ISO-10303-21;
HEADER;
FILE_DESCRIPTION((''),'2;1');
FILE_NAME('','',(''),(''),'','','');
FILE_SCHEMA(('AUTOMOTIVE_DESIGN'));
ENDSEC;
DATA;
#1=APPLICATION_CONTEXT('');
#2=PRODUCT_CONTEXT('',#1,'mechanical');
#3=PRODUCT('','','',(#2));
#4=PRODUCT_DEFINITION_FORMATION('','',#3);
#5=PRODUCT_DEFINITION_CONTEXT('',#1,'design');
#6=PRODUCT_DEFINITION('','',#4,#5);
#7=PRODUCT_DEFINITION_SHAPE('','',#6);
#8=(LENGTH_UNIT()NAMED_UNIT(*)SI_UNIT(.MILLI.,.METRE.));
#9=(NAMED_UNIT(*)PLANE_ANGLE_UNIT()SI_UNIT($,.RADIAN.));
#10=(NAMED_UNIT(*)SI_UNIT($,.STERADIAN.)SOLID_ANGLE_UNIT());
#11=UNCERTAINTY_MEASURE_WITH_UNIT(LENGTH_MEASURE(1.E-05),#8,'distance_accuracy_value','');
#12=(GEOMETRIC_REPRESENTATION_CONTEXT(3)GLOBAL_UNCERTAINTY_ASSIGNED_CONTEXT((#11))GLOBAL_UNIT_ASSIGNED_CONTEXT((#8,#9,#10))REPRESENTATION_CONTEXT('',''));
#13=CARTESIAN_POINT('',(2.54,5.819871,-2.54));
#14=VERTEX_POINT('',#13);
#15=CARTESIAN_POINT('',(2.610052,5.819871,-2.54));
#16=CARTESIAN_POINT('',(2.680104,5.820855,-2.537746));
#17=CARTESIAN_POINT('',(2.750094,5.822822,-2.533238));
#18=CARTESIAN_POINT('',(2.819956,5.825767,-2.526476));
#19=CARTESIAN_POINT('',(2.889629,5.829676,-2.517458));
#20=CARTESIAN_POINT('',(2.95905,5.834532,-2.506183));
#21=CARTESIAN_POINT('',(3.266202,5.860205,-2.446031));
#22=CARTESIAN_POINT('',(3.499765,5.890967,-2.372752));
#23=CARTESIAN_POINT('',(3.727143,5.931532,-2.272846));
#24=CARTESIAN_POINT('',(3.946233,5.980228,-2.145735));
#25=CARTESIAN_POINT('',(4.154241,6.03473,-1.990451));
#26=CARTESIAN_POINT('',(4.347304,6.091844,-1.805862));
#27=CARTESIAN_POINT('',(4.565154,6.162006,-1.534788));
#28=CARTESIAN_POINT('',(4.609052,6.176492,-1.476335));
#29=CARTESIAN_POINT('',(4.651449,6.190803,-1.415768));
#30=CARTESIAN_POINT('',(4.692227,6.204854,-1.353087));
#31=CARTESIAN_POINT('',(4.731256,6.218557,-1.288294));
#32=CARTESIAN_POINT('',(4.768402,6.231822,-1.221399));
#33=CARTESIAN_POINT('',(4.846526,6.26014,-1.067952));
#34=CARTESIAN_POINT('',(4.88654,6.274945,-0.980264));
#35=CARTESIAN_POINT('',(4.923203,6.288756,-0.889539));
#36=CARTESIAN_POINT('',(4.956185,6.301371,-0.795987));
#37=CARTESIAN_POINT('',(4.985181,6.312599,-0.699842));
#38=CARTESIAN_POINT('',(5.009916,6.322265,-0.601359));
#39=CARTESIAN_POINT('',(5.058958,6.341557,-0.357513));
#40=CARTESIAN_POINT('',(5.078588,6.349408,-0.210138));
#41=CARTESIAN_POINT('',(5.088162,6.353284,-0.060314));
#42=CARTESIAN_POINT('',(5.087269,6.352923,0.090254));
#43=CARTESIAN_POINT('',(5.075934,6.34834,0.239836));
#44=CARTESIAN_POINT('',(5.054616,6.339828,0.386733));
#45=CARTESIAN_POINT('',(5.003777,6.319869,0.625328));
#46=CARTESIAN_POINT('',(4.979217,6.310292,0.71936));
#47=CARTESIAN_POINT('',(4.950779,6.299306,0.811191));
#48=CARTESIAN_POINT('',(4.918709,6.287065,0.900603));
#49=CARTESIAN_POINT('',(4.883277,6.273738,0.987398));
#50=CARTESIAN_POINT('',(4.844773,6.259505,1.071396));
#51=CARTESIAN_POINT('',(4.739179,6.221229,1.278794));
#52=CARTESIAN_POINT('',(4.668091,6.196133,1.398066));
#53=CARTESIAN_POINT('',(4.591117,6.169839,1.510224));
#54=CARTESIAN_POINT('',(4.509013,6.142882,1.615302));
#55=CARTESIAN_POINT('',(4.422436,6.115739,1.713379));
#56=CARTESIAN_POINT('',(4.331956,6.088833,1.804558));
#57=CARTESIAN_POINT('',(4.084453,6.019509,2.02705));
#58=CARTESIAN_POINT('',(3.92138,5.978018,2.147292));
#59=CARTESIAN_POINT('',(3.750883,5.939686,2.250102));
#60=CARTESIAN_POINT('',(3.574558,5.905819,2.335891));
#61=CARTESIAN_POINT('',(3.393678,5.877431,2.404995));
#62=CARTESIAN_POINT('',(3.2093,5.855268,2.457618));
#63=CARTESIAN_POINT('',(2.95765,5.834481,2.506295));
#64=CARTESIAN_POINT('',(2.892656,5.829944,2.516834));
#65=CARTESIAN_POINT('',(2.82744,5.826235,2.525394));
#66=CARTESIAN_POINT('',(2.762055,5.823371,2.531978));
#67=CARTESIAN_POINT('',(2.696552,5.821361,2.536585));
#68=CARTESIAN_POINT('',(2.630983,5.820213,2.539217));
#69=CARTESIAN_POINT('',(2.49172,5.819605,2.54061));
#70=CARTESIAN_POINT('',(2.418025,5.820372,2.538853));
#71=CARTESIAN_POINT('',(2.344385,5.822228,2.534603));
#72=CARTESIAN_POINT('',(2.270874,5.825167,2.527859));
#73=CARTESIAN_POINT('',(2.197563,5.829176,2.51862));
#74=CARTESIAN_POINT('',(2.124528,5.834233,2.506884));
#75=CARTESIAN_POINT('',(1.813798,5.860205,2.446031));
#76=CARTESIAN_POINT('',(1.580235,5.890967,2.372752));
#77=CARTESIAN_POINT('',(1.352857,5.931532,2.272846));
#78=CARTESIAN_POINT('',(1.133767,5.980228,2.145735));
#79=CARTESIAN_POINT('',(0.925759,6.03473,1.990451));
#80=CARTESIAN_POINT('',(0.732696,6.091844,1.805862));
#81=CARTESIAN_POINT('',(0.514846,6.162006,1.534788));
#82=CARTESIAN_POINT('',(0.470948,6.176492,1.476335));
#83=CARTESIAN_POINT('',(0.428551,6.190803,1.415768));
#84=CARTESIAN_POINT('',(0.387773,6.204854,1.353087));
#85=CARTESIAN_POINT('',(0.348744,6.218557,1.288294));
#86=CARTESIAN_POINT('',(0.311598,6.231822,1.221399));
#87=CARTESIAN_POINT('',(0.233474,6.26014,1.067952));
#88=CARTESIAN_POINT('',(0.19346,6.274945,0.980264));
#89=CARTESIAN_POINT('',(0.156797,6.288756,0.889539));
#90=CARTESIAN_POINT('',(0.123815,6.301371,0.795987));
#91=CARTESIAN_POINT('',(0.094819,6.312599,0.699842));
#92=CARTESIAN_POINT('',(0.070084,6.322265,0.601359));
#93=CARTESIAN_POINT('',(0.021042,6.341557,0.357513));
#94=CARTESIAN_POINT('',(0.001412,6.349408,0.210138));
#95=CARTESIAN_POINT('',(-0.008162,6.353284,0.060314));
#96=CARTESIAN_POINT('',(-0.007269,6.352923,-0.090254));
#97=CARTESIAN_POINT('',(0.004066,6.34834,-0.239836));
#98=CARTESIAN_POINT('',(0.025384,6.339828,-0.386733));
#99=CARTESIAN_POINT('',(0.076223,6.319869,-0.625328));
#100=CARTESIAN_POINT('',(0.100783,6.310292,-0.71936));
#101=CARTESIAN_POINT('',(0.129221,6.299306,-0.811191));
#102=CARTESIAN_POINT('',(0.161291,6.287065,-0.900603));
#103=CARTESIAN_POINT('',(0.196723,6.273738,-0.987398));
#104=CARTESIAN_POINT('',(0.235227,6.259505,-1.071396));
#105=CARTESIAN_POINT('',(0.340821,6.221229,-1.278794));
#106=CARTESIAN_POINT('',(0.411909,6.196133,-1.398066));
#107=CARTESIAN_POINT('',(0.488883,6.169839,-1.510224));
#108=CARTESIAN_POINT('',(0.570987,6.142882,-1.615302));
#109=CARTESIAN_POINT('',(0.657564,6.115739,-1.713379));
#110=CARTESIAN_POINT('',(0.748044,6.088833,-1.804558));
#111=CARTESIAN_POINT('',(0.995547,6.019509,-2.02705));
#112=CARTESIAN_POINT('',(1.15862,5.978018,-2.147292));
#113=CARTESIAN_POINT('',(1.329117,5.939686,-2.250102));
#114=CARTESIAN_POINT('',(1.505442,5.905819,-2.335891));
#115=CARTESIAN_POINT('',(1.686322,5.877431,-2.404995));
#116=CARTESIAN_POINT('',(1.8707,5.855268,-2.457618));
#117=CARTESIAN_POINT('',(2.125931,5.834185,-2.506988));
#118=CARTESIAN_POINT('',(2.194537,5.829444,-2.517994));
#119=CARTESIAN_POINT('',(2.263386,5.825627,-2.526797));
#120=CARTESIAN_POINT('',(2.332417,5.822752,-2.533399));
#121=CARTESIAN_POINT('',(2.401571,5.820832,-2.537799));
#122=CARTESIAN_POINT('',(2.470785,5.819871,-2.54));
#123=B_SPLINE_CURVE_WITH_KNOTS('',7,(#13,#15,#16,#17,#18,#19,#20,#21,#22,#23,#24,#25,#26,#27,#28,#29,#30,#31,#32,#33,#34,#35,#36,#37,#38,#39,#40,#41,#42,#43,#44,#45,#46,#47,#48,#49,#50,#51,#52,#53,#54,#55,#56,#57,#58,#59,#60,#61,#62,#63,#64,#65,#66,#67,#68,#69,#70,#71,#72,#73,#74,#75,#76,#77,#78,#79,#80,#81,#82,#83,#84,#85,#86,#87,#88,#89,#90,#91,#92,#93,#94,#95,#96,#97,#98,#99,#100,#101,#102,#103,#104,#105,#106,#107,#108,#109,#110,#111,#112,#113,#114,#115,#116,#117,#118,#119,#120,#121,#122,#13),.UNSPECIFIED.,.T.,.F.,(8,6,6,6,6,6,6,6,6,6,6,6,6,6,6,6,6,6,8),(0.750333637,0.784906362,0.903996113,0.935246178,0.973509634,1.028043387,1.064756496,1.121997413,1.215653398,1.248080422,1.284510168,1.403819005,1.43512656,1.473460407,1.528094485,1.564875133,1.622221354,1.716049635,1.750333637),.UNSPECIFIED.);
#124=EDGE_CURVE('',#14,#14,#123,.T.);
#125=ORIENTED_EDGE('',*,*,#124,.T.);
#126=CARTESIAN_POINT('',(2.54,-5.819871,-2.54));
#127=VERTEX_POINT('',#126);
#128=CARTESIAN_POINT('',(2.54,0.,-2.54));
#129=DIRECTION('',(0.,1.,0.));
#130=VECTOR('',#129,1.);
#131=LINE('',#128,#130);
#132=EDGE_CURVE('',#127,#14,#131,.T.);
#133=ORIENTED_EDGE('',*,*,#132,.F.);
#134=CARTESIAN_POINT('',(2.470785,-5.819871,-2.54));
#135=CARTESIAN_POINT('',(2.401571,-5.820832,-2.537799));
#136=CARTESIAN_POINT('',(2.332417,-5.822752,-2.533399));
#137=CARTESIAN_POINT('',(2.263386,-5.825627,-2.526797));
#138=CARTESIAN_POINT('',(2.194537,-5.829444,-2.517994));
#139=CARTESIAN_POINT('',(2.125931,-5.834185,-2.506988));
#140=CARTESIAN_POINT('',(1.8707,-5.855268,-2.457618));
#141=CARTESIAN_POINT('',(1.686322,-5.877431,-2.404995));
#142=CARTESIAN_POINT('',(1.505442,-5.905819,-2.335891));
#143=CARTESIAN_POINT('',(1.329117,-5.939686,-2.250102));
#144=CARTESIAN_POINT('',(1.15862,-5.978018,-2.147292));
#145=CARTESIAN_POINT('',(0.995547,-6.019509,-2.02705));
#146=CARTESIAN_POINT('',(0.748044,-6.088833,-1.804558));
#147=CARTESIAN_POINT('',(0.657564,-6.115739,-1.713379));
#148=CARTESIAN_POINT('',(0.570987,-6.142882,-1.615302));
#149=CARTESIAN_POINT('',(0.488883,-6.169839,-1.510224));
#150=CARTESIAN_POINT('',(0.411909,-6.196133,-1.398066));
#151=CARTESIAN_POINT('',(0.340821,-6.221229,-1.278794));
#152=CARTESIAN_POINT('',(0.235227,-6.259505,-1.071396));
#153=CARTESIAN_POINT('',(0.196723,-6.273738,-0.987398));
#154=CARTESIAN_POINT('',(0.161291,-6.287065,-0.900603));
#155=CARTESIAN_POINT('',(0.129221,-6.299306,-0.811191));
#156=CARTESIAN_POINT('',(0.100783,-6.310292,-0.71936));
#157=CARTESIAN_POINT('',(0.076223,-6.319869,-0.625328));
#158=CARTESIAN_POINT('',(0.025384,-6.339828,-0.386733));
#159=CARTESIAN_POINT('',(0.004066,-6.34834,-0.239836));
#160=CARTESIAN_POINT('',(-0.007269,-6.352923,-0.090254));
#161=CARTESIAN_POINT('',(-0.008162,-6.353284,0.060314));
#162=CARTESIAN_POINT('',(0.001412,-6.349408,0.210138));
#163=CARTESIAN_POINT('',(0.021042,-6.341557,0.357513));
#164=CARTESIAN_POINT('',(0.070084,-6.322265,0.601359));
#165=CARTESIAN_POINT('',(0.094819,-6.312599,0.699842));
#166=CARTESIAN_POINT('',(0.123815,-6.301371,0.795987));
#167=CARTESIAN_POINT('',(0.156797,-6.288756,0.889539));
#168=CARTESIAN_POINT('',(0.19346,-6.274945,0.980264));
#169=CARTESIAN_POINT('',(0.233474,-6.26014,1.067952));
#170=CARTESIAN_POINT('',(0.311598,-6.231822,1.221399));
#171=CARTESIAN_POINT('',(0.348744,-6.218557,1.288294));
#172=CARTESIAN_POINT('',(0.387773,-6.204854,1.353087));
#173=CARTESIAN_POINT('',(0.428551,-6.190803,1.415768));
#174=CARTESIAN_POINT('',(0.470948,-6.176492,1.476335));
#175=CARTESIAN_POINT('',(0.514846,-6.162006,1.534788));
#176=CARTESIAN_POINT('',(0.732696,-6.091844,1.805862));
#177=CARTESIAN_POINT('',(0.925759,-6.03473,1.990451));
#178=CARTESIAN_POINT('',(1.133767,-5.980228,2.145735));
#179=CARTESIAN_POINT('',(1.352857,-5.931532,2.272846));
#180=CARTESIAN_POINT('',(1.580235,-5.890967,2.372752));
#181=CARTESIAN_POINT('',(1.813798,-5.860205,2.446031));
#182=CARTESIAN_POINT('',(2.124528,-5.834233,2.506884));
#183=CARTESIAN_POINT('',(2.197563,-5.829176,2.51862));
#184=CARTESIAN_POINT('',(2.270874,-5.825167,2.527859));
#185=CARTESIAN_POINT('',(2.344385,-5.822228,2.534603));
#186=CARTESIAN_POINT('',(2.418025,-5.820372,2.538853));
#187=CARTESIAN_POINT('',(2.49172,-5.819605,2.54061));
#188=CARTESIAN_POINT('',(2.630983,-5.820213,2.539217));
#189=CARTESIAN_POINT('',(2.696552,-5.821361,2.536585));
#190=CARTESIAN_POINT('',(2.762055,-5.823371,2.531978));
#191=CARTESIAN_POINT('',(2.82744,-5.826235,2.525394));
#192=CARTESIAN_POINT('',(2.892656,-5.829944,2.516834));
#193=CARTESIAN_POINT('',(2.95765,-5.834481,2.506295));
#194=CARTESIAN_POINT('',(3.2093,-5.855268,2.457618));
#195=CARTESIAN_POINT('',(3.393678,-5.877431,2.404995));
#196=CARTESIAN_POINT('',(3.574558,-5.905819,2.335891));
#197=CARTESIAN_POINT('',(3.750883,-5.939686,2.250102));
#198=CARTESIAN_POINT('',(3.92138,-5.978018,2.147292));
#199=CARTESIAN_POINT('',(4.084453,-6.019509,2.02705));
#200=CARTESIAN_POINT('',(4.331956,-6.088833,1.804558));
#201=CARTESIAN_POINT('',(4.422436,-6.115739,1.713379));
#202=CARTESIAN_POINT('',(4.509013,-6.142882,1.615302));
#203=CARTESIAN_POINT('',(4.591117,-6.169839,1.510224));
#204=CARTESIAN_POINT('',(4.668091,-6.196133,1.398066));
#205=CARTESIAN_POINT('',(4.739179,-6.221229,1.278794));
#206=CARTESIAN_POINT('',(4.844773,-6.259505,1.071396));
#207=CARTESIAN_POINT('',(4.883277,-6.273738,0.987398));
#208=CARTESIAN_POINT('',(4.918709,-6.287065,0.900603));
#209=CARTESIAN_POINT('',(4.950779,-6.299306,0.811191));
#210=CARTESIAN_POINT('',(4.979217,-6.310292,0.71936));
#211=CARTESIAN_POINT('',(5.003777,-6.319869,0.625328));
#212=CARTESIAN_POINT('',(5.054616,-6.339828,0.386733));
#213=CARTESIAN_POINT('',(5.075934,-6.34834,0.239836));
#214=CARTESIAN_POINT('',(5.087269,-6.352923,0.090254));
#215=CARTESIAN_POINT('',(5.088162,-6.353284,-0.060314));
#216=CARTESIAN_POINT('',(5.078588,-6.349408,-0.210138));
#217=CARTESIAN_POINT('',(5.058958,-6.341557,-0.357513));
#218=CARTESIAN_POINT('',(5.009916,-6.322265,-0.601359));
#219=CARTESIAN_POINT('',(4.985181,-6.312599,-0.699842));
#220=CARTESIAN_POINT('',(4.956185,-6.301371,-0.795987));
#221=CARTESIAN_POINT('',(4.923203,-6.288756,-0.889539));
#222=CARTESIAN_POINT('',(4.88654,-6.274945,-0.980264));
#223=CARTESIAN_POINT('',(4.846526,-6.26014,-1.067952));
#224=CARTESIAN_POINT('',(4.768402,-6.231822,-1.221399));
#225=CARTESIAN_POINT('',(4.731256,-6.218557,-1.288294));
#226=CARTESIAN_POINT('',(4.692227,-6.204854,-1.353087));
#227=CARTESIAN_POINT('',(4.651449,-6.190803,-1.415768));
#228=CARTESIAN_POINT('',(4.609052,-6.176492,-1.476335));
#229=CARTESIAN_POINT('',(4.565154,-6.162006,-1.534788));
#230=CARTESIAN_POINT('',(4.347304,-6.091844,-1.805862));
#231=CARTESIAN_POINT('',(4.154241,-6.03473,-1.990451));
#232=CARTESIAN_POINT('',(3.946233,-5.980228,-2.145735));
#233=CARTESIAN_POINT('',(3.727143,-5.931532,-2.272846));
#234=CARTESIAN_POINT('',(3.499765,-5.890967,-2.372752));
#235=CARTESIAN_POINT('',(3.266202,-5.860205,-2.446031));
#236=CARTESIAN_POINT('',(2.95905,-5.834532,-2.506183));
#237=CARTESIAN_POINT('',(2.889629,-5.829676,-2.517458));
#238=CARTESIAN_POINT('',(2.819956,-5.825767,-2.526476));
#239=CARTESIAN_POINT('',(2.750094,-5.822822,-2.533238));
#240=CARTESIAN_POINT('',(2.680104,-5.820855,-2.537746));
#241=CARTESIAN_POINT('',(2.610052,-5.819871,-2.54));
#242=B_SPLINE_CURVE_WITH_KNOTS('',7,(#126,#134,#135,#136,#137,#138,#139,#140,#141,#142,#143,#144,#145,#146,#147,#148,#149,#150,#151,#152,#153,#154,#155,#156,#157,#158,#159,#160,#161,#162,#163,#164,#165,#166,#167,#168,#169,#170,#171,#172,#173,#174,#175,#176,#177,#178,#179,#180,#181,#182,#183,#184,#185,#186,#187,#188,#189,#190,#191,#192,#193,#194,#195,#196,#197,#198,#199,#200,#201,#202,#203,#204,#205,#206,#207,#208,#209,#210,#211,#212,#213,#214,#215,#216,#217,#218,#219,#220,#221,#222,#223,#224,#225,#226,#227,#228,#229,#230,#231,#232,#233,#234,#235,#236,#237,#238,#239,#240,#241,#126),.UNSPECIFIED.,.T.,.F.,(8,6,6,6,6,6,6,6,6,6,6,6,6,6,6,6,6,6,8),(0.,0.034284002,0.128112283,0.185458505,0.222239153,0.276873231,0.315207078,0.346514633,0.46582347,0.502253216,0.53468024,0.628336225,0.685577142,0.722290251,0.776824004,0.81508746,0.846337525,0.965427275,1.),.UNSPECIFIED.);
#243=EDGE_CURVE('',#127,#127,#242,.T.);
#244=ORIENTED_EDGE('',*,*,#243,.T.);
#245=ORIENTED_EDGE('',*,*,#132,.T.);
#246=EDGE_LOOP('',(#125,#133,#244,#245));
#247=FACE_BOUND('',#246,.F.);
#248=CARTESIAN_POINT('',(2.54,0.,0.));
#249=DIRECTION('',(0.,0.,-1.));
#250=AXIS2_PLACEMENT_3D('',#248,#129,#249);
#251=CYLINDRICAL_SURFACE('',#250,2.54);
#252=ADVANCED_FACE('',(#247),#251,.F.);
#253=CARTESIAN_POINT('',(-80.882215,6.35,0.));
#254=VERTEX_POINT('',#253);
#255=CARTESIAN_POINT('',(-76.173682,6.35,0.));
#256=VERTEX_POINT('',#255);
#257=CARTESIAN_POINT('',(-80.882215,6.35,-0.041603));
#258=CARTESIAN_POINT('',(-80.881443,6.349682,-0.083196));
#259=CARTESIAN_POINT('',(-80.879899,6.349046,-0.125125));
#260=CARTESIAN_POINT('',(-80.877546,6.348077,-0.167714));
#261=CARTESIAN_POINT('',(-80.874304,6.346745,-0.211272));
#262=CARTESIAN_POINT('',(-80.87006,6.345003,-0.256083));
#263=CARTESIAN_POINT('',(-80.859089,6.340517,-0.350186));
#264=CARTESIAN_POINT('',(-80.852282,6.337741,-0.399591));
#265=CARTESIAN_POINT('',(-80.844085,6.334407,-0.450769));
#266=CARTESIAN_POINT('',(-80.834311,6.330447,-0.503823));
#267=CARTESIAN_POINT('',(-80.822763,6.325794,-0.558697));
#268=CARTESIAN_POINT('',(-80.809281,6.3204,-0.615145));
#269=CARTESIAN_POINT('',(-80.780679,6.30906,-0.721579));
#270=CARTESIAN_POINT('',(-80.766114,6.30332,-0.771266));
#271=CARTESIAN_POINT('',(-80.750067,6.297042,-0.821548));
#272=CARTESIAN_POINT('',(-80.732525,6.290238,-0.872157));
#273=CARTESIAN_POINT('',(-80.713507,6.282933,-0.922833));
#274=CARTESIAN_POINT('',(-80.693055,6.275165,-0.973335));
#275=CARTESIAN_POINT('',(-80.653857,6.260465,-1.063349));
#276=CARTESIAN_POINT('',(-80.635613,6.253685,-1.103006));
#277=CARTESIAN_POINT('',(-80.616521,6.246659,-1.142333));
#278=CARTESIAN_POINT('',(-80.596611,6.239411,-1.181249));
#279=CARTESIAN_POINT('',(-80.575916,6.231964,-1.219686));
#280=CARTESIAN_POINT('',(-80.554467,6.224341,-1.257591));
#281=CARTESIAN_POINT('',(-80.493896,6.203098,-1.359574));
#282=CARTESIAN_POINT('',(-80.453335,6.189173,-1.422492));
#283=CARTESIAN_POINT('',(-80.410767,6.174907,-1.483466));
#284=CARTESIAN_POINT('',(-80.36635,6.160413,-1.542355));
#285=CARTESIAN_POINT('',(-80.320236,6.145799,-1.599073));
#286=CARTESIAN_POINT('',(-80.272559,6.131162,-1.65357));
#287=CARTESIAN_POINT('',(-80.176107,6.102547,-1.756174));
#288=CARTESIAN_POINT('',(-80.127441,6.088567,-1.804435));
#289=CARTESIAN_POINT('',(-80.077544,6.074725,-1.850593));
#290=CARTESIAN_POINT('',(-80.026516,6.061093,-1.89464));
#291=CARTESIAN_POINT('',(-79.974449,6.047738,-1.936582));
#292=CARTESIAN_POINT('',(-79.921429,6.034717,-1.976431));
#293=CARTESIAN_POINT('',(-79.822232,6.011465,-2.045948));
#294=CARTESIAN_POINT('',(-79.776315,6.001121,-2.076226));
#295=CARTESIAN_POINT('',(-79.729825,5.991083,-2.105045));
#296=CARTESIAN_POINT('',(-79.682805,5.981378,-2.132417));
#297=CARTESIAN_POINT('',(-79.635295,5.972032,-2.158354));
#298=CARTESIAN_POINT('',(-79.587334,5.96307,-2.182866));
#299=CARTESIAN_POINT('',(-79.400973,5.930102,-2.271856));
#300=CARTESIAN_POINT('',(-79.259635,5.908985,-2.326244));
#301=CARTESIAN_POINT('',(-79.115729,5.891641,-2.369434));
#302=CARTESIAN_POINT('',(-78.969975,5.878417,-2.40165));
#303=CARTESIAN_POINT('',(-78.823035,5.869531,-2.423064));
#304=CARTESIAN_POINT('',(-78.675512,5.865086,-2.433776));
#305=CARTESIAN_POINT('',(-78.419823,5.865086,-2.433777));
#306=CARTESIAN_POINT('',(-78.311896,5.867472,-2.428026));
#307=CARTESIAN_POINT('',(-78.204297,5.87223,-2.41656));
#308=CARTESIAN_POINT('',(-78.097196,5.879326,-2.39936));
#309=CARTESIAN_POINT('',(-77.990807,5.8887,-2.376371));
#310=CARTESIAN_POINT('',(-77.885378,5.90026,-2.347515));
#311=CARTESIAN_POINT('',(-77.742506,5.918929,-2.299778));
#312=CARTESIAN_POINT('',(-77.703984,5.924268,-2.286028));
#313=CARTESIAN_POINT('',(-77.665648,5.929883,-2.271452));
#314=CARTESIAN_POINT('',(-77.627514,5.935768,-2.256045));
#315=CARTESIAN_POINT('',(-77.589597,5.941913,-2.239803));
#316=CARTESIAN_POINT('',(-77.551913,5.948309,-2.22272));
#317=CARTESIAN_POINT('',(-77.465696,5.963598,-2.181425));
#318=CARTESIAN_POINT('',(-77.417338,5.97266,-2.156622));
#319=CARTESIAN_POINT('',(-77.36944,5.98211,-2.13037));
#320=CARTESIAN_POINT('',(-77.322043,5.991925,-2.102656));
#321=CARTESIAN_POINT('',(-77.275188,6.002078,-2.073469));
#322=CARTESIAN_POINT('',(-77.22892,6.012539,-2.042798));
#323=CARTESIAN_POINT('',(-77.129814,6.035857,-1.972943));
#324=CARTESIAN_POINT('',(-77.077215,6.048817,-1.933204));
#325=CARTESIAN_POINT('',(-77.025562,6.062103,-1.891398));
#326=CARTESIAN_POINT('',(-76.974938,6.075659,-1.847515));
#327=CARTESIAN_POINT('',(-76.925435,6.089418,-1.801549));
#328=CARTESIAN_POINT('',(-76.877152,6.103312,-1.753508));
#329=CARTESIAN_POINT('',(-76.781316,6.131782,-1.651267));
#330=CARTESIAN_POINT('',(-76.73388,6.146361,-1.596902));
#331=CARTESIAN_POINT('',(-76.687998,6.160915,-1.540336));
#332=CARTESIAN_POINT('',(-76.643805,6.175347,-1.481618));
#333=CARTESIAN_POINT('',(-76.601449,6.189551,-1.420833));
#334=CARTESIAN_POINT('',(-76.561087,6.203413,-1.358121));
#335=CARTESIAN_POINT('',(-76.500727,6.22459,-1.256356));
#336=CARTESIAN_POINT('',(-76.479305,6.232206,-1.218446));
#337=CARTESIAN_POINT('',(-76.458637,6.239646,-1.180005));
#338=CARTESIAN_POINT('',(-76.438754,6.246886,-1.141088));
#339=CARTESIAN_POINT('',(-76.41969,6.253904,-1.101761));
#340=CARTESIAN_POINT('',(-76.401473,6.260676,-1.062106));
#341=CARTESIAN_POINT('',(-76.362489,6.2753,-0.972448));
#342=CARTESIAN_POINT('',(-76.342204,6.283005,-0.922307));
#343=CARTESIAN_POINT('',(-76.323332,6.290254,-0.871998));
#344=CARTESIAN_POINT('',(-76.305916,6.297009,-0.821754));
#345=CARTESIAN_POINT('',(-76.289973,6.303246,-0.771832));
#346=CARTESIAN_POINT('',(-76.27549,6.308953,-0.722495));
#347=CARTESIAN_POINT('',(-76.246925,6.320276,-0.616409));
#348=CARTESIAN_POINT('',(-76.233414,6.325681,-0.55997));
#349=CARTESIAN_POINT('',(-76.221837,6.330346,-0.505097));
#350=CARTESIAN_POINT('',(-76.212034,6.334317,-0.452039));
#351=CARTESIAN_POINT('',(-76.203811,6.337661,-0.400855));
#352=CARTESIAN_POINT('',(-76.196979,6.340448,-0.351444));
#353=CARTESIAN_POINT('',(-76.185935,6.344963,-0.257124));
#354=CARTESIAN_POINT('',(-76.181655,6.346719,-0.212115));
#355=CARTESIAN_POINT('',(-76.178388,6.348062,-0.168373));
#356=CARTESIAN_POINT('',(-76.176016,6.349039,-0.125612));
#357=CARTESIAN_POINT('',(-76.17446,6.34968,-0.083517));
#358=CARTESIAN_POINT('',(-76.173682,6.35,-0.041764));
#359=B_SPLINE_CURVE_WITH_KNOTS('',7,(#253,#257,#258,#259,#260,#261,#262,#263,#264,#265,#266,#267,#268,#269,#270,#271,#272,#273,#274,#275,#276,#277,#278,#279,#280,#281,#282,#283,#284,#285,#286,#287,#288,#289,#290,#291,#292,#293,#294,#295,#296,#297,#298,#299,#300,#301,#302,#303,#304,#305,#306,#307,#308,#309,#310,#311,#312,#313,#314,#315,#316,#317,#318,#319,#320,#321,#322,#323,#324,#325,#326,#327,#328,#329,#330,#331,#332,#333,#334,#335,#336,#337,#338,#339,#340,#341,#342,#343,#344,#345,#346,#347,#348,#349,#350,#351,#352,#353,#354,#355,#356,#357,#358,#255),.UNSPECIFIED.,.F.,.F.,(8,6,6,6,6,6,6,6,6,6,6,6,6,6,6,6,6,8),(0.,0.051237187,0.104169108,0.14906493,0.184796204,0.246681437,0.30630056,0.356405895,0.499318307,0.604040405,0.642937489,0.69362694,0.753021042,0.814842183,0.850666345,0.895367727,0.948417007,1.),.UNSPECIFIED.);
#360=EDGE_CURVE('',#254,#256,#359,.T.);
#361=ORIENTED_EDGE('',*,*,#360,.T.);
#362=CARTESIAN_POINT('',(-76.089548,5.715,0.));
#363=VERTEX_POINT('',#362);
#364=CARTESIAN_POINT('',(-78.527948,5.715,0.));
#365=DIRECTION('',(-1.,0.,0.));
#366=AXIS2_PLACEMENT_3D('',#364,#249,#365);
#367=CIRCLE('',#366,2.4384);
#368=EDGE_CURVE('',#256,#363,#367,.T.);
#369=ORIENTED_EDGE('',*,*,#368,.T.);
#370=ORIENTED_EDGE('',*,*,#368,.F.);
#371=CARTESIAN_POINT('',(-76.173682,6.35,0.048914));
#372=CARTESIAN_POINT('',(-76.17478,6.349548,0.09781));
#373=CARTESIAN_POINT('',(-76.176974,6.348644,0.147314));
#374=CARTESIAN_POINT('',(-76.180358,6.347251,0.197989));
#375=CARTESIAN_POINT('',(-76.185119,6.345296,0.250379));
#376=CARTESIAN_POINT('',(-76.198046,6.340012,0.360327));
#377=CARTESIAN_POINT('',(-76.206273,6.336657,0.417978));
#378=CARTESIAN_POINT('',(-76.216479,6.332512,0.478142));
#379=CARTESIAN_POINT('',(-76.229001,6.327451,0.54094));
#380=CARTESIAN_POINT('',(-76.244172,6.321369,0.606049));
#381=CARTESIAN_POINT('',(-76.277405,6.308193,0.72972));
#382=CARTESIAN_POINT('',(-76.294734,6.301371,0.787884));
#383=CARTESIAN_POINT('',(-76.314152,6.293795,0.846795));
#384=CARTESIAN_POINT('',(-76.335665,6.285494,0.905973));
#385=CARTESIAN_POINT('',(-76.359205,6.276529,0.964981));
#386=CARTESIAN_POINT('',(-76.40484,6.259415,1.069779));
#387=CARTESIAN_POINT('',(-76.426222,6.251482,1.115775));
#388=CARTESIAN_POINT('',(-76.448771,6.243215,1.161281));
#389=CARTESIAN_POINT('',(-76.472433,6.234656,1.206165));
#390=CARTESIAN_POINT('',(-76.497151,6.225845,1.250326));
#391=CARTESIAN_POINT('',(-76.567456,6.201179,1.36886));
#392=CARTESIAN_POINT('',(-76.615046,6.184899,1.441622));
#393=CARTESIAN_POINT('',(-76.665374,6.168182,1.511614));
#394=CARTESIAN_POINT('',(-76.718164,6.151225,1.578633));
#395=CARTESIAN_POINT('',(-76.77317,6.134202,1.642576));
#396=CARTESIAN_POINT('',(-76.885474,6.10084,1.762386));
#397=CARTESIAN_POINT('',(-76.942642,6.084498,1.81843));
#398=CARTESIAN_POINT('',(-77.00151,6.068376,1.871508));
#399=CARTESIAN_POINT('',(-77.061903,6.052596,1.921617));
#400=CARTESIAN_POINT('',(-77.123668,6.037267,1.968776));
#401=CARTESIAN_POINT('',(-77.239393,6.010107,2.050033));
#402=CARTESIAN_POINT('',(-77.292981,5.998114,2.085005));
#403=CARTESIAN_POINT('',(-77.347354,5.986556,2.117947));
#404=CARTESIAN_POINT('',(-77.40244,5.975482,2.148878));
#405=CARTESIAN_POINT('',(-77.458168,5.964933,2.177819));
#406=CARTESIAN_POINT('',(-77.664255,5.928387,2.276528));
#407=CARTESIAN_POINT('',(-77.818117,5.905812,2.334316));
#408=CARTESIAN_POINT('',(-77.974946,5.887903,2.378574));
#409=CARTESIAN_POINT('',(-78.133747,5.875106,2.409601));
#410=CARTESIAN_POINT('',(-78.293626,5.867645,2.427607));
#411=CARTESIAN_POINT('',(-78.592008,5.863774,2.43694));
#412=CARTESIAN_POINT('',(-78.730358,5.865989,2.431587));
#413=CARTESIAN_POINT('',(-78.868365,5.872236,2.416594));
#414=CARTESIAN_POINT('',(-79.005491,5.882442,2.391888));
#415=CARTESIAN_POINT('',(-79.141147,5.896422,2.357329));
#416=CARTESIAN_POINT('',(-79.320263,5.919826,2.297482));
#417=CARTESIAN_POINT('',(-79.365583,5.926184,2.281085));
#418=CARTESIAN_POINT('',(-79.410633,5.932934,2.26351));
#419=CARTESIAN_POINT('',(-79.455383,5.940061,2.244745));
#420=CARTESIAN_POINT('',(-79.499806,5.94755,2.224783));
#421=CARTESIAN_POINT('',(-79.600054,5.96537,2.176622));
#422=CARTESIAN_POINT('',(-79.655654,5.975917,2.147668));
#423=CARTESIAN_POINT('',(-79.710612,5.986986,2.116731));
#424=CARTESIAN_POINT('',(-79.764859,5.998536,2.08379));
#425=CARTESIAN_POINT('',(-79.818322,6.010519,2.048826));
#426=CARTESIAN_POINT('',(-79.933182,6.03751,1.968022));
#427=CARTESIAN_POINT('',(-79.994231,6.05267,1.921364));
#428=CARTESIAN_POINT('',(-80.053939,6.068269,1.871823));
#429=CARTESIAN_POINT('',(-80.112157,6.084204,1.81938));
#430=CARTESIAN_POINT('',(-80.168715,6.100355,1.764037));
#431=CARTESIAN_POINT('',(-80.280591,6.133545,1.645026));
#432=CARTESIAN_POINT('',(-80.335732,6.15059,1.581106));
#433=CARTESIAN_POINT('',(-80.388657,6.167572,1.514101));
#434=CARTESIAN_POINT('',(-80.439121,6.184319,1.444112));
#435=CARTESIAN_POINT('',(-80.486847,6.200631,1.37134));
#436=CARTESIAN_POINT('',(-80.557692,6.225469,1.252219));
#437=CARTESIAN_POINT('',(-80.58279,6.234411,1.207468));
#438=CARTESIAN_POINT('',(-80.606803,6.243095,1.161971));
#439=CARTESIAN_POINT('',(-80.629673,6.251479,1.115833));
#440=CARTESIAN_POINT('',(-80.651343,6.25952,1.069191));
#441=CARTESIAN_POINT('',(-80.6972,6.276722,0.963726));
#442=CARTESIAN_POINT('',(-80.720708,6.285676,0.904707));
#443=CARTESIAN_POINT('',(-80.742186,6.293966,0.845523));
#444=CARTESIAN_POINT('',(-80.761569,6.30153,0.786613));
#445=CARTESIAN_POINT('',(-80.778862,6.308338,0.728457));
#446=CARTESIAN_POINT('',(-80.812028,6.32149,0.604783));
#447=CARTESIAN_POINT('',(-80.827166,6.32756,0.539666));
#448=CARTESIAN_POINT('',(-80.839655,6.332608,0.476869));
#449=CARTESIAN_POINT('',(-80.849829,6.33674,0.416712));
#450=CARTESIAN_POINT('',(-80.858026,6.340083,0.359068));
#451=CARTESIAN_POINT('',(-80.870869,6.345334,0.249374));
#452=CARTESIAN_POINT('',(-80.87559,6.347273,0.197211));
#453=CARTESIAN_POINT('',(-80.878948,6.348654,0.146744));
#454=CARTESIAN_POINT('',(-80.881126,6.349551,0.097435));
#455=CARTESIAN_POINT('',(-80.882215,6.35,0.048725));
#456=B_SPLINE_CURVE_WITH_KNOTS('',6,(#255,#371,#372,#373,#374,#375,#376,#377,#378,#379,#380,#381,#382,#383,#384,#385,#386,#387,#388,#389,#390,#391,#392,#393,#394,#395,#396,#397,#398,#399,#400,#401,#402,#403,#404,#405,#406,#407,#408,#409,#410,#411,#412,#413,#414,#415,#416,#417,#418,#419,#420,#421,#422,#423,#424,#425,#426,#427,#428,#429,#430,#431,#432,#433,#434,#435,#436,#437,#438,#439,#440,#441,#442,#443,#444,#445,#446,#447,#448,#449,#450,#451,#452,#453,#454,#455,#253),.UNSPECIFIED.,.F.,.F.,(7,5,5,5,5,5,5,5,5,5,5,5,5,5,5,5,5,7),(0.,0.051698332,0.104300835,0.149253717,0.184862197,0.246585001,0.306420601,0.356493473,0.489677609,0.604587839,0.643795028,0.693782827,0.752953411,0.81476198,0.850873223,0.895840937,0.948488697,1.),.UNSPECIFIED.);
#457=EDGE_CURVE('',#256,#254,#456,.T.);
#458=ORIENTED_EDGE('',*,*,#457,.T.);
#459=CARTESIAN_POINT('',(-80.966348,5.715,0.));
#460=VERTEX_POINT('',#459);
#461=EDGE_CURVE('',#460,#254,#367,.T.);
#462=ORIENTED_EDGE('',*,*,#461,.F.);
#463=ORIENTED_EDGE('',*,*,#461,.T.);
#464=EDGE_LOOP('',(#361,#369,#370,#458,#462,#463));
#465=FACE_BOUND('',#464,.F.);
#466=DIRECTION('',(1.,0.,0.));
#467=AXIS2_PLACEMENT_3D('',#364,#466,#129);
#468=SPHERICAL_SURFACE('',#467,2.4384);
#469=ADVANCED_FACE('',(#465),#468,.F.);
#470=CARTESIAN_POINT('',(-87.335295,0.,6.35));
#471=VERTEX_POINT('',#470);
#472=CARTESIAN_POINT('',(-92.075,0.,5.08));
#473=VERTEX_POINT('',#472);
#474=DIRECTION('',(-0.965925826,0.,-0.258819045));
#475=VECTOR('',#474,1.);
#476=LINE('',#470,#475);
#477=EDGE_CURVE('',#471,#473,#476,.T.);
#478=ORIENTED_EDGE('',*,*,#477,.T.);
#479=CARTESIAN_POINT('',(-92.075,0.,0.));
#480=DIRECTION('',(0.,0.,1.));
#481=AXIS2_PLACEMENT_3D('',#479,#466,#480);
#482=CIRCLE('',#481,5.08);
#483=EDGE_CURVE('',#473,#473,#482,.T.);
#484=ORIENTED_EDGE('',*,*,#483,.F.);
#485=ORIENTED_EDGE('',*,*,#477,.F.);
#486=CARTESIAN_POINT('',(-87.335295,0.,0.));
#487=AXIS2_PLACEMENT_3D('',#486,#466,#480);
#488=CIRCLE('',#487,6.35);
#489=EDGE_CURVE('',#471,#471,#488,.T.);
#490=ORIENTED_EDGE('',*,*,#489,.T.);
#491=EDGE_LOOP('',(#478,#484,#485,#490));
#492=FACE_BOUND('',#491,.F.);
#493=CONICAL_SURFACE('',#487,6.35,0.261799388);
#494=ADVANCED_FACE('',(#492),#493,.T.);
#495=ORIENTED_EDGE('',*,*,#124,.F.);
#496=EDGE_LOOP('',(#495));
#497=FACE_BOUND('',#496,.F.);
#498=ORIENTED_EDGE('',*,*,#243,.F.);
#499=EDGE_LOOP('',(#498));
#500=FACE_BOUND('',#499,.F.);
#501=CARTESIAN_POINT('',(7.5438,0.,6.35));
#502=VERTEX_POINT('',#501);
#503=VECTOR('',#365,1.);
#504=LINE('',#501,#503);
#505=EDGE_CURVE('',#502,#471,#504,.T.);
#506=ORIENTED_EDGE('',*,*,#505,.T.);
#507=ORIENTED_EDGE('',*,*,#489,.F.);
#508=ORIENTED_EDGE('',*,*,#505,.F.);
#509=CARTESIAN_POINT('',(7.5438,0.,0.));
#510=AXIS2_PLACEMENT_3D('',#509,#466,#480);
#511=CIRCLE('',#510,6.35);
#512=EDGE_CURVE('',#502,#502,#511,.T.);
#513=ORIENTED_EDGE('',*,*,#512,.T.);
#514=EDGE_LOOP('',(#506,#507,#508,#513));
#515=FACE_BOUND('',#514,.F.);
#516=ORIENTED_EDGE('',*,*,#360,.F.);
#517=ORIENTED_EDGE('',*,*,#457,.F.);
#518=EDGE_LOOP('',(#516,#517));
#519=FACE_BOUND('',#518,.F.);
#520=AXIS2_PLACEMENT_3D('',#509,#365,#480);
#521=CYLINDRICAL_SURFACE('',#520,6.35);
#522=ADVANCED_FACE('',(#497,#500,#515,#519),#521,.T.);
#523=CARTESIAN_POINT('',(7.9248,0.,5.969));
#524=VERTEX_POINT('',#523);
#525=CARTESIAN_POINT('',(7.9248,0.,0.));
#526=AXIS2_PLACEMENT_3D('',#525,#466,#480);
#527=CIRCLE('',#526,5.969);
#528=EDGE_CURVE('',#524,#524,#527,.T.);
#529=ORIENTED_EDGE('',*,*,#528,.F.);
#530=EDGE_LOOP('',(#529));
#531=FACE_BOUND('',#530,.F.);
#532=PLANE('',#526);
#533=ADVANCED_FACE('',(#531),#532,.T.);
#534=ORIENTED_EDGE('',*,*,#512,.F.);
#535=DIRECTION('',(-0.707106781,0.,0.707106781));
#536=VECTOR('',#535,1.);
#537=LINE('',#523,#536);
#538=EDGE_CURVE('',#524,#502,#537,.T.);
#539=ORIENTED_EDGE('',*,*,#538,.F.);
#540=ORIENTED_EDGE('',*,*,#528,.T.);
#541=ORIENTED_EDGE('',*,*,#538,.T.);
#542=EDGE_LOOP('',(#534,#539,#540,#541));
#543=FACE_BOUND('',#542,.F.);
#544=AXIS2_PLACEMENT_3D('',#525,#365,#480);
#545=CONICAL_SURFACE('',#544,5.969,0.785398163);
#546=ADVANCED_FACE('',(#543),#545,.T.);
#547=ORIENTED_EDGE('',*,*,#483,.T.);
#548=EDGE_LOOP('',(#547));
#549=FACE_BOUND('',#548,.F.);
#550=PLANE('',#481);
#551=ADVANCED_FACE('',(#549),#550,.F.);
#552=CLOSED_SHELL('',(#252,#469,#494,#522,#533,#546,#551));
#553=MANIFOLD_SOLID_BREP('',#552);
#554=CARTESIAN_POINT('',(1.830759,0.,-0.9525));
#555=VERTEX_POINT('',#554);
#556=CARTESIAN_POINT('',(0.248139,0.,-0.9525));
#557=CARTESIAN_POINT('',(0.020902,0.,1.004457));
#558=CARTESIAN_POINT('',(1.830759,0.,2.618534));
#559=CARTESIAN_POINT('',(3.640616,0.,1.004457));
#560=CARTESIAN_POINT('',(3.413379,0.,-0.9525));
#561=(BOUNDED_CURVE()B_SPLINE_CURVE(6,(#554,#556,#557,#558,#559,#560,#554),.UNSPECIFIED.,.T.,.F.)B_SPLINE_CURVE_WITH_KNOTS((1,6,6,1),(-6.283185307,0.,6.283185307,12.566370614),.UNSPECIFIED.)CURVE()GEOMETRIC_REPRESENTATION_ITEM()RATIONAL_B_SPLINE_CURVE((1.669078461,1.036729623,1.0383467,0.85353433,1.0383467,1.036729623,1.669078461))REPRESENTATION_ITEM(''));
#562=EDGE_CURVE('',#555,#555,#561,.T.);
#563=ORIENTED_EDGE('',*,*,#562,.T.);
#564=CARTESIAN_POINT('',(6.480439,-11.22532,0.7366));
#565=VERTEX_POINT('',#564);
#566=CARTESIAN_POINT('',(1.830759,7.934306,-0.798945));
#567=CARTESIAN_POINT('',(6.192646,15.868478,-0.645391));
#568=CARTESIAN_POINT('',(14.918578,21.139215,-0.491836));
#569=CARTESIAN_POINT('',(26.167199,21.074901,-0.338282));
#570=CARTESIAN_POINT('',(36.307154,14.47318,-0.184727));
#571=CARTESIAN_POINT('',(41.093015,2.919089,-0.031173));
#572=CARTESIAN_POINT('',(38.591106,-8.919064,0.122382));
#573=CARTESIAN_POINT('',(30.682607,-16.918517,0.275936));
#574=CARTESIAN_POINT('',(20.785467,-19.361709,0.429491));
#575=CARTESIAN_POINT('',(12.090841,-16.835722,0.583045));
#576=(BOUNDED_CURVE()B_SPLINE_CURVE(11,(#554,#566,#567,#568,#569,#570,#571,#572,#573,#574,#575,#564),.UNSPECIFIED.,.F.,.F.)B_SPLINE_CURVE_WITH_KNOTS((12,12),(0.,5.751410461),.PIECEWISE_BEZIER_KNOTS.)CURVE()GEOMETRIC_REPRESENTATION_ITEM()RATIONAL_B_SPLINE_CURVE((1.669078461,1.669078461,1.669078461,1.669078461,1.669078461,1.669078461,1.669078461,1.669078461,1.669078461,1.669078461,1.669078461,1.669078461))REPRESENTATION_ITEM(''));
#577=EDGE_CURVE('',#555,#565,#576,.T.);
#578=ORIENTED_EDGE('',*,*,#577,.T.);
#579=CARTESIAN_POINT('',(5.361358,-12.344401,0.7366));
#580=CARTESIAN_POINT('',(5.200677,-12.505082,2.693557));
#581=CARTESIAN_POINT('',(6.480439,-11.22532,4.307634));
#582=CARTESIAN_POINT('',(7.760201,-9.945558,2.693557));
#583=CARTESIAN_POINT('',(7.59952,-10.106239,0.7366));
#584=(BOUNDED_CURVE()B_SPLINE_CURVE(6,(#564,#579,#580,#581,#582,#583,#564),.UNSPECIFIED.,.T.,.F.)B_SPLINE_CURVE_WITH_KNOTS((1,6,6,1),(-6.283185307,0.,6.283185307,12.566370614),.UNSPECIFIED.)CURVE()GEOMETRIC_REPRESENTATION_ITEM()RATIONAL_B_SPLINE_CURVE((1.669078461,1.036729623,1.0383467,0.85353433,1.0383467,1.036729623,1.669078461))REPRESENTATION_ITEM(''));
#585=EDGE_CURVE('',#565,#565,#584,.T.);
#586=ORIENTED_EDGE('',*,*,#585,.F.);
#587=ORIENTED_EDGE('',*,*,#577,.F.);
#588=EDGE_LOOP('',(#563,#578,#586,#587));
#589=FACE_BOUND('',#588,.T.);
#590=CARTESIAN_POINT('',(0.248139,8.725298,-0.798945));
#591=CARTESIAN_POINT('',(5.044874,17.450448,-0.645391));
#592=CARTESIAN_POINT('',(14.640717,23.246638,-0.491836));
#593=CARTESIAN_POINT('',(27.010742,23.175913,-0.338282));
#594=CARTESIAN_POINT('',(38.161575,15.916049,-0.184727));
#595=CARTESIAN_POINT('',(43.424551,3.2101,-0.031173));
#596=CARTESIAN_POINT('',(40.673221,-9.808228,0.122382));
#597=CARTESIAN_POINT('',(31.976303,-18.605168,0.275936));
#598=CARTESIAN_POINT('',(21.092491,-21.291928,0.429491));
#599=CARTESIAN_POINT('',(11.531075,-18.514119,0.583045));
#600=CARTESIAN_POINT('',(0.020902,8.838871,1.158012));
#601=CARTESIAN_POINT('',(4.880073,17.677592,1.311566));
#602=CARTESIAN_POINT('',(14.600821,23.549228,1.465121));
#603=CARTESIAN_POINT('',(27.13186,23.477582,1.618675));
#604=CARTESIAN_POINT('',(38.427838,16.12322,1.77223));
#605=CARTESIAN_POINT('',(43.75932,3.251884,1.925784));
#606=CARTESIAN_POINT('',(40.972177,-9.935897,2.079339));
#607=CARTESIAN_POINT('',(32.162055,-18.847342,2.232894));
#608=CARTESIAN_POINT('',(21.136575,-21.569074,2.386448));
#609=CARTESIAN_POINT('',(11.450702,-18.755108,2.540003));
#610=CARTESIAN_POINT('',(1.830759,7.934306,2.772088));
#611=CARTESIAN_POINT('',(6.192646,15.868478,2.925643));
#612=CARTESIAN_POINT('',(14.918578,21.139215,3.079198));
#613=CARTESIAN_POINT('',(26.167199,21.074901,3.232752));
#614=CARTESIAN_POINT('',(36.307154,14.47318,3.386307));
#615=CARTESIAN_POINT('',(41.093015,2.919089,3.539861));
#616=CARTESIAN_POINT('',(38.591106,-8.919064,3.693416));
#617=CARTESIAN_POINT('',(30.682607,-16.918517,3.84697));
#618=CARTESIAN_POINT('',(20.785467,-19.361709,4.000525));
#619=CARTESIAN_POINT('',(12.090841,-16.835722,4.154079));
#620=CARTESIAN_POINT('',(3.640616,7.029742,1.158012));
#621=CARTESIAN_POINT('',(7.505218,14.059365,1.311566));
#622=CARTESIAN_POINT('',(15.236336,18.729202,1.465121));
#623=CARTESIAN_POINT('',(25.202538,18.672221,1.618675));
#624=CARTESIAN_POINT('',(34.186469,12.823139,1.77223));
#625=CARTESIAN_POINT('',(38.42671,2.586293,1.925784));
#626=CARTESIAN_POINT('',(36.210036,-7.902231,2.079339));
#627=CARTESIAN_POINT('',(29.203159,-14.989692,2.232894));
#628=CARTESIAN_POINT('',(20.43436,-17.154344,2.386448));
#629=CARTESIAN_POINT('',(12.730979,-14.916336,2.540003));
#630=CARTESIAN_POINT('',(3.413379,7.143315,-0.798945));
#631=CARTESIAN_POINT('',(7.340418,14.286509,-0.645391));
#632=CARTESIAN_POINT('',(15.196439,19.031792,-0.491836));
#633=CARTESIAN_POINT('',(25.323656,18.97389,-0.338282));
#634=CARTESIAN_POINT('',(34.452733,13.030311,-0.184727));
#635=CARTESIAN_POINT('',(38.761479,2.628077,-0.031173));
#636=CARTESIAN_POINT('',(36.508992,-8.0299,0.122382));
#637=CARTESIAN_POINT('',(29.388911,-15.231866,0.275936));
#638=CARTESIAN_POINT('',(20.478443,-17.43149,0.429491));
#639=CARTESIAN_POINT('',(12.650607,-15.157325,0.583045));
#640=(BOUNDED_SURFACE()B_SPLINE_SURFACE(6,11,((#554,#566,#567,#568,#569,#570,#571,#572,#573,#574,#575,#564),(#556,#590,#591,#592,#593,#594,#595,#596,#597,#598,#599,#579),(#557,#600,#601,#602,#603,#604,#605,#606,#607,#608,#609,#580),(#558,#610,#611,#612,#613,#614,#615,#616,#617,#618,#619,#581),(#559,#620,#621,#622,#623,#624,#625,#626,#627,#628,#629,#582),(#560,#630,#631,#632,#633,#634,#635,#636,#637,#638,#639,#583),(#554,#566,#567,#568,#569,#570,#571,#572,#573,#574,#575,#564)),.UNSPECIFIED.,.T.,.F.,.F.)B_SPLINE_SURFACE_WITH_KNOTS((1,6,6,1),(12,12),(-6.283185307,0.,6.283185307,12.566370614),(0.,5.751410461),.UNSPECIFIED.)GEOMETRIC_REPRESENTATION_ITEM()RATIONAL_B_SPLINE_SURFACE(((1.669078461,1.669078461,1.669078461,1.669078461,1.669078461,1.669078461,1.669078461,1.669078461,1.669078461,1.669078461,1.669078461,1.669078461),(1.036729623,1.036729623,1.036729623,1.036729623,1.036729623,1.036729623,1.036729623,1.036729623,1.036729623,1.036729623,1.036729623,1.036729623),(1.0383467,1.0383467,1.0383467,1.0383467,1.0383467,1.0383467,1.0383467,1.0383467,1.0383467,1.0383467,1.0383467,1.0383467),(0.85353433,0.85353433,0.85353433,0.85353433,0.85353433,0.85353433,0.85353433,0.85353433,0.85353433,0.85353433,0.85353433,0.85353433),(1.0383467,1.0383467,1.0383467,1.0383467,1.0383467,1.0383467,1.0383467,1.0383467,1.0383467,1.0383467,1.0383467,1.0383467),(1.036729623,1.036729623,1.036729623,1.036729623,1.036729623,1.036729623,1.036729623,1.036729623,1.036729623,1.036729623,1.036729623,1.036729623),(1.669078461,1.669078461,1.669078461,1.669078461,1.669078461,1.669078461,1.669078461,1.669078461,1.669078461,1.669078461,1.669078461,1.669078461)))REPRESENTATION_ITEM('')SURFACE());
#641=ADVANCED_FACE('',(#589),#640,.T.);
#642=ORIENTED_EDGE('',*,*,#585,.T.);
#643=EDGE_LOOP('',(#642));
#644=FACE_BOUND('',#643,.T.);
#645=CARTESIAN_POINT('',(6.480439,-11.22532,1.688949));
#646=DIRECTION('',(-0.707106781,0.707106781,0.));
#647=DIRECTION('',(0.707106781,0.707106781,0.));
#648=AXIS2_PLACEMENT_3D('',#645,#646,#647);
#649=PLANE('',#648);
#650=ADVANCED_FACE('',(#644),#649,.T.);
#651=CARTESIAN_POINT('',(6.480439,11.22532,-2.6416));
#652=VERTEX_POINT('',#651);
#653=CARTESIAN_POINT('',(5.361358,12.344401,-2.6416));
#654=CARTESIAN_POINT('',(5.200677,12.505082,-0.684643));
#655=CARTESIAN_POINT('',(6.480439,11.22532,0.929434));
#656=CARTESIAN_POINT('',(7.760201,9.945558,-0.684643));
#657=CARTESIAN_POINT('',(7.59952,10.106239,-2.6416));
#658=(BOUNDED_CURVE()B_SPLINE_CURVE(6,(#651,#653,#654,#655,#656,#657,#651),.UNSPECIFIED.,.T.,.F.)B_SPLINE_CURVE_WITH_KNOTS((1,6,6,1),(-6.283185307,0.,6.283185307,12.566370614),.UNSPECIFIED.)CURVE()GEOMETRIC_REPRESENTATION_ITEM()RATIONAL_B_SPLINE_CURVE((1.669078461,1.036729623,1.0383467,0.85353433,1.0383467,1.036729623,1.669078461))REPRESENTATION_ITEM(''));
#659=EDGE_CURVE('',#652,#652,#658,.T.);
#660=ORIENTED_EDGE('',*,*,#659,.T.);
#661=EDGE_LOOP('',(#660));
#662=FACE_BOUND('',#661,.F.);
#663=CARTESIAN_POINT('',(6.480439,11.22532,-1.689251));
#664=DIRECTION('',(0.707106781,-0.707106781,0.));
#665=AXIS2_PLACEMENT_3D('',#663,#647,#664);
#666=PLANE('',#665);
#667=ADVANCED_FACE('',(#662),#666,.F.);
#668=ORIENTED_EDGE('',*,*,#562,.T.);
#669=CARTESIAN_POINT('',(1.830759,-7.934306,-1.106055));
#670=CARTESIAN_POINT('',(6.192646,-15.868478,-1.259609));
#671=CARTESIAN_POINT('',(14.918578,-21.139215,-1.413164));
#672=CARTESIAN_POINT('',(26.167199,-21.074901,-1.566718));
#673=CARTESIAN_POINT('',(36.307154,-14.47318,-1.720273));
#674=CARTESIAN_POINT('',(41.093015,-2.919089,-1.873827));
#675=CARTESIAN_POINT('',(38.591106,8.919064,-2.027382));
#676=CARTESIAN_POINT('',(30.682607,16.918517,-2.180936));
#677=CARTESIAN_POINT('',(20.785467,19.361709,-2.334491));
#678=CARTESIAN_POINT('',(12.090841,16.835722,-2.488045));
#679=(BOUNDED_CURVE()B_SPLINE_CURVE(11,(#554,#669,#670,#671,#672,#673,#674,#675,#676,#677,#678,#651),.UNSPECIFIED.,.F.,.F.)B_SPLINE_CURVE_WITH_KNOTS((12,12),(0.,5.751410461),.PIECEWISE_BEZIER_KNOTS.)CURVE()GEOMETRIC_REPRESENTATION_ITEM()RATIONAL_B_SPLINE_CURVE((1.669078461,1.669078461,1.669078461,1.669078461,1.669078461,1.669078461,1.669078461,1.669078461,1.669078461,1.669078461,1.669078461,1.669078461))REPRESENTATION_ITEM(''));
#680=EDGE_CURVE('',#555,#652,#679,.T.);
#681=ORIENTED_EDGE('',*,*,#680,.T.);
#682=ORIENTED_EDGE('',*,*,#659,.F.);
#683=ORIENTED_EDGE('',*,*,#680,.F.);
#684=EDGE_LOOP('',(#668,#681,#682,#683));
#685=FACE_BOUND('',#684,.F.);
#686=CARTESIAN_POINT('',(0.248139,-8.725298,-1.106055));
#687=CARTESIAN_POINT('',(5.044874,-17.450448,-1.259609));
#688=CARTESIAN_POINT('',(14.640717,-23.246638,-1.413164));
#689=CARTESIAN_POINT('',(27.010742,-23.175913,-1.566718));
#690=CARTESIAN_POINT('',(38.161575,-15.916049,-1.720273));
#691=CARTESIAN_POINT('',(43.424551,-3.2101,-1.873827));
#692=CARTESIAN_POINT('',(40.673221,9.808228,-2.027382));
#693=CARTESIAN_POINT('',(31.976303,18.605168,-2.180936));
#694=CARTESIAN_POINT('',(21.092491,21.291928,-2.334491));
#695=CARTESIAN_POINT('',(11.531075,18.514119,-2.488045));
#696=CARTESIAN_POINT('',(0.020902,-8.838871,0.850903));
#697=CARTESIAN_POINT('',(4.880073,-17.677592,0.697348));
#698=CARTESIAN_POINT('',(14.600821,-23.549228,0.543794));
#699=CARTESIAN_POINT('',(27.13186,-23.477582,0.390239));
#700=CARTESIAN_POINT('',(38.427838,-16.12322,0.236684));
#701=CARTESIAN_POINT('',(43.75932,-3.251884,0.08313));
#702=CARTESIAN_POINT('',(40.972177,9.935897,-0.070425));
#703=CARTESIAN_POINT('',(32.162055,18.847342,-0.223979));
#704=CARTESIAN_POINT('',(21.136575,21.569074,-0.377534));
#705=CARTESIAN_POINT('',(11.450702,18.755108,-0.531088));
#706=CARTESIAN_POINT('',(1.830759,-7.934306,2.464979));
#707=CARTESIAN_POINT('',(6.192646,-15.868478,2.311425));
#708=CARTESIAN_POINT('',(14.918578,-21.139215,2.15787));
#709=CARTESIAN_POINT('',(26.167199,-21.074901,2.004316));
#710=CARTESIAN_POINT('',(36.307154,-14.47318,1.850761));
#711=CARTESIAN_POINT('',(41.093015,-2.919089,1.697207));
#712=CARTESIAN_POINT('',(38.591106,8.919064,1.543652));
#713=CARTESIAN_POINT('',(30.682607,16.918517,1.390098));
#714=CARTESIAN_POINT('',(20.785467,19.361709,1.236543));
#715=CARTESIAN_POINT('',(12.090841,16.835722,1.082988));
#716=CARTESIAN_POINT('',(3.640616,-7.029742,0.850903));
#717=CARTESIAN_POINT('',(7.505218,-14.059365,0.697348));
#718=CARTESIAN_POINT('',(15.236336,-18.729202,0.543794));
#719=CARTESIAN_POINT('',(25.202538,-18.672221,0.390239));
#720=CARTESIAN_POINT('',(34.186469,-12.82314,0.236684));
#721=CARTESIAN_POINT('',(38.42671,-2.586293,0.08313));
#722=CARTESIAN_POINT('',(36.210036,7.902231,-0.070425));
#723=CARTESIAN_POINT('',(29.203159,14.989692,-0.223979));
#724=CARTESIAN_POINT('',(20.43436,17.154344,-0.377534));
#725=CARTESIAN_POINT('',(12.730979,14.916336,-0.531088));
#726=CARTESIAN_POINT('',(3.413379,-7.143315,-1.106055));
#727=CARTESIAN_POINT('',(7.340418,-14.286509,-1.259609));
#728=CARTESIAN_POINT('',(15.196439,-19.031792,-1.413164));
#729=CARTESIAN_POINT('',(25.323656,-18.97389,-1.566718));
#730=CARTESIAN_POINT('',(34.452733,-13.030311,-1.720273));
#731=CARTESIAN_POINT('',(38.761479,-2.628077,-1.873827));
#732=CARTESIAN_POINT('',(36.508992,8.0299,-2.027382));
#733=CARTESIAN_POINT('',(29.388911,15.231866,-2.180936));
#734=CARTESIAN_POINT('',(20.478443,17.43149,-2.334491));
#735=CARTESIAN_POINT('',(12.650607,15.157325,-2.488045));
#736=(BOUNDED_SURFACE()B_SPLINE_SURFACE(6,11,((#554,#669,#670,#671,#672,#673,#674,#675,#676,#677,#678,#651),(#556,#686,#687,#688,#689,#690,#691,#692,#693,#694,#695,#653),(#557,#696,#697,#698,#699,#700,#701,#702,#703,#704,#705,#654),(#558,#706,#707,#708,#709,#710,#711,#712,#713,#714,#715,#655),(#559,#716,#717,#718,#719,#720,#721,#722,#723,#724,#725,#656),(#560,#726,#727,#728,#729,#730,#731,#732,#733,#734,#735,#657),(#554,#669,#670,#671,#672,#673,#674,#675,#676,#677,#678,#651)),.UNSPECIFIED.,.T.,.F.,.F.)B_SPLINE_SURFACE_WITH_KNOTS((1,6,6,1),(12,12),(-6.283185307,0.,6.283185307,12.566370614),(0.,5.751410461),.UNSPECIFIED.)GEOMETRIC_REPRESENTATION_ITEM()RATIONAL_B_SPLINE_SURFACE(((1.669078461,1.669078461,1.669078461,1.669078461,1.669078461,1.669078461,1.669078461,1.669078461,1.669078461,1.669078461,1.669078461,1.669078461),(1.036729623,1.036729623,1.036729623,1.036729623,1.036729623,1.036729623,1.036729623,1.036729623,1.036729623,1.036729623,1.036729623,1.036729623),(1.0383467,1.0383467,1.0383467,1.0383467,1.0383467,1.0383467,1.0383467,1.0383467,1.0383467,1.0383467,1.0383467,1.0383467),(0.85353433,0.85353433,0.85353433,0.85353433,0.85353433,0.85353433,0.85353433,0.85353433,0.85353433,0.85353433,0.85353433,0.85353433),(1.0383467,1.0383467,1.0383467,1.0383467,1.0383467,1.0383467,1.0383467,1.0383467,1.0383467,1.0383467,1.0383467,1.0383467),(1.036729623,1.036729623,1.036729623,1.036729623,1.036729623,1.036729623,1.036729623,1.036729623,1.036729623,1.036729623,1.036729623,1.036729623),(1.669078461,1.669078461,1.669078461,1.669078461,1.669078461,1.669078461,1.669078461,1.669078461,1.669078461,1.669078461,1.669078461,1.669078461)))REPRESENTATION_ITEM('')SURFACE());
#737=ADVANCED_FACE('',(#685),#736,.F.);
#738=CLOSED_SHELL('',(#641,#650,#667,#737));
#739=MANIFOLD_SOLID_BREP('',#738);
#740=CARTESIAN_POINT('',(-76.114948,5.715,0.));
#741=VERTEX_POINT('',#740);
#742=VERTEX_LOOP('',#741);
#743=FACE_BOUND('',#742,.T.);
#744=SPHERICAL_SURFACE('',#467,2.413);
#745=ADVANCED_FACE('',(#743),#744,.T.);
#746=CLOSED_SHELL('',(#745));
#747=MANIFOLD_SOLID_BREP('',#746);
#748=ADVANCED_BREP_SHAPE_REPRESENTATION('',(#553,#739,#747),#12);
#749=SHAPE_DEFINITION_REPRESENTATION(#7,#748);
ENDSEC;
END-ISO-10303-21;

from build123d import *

# Parameters (mm, degrees)
SKETCH4_W          = 2.54
SKETCH4_H          = 12.7
SWEEP1_PITCH       = 1.9304
SWEEP1_HEIGHT      = 1.6891
SWEEP1_RADIUS      = 16.8275
SKETCH6_R          = 0.9525
SWEEP2_PITCH       = 1.9304
SWEEP2_HEIGHT      = 1.6891
SWEEP2_RADIUS      = 16.8275
SWEEP2_START_ANGLE = -180
SKETCH6_2_R        = 0.9525


with BuildPart() as part:
    # Sketch1 → Revolve1 (revolve)
    with BuildSketch(Plane.XY, mode=Mode.PRIVATE) as revolve1_sk:
        Polygon((7.9248, 5.969), (7.5438, 6.35), (-87.335295474, 6.35), (-92.075, 5.08), (-92.075, 0), (7.9248, 0), align=None)
    revolve(revolve1_sk.sketch.rotate(Axis((7.9248, 0, 0), (1, 0, 0)), 90), axis=Axis((7.9248, 0, 0), (1, 0, 0)))

    # Sketch2 → Cut-Revolve1 (revolve, cut)
    with BuildSketch(Plane.XY):
        with BuildLine():
            Line((-76.089548453, 5.715), (-80.966348453, 5.715))
            ThreePointArc((-80.966348453, 5.715), (-78.527948453, 8.1534), (-76.089548453, 5.715))
        make_face()
    revolve(axis=Axis((-76.089548453, 5.715, 0), (1, 0, 0)), mode=Mode.SUBTRACT)

    # Sketch4 → Cut-Revolve2 (revolve, cut)
    with BuildSketch(Plane.XY, mode=Mode.PRIVATE) as cut_revolve2_sk:
        with Locations((3.81, 0)):
            Rectangle(SKETCH4_W, SKETCH4_H)
    revolve(cut_revolve2_sk.sketch.rotate(Axis((2.54, -6.35, 0), (0, 1, 0)), 90), axis=Axis((2.54, -6.35, 0), (0, 1, 0)), mode=Mode.SUBTRACT)


with BuildPart() as body_2:
    # Sketch3 → Revolve2 (revolve)
    with BuildSketch(Plane.XY):
        with BuildLine():
            Line((-76.114948453, 5.715), (-80.940948453, 5.715))
            ThreePointArc((-80.940948453, 5.715), (-78.527948453, 8.128), (-76.114948453, 5.715))
        make_face()
    revolve(axis=Axis((-76.114948453, 5.715, 0), (1, 0, 0)))


with BuildPart() as body_3:
    # Sweep1: sweep along a helix
    with BuildLine() as sweep1_path:
        Helix(SWEEP1_PITCH, SWEEP1_HEIGHT, SWEEP1_RADIUS, center=(17.705759076, 0, 0), direction=(0, 0, -1), lefthand=True)
    # Sketch6 → Sweep1 (sweep)
    with BuildSketch(Plane(origin=(114.003847968, 0, 0), x_dir=(0, 0, -1), z_dir=(0, 1, 0))):
        with Locations((0, 112.173088892)):
            Circle(SKETCH6_R)
    sweep(path=sweep1_path.line, is_frenet=True)

    # Sweep2: sweep along a helix
    with BuildLine() as sweep2_path:
        add(Helix(SWEEP2_PITCH, SWEEP2_HEIGHT, SWEEP2_RADIUS, center=(17.705759076, 0, 0), direction=(0, 0, 1), lefthand=True, mode=Mode.PRIVATE).rotate(Axis((17.705759076, 0, 0), (0, 0, 1)), SWEEP2_START_ANGLE))
    # Sketch6<2> → Sweep2 (sweep)
    with BuildSketch(Plane(origin=(114.003847968, 0, 0), x_dir=(0, 0, -1), z_dir=(0, 1, 0))):
        with Locations((0, 112.173088892)):
            Circle(SKETCH6_2_R)
    sweep(path=sweep2_path.line, is_frenet=True)


solid = Compound([part.part, body_2.part, body_3.part])
